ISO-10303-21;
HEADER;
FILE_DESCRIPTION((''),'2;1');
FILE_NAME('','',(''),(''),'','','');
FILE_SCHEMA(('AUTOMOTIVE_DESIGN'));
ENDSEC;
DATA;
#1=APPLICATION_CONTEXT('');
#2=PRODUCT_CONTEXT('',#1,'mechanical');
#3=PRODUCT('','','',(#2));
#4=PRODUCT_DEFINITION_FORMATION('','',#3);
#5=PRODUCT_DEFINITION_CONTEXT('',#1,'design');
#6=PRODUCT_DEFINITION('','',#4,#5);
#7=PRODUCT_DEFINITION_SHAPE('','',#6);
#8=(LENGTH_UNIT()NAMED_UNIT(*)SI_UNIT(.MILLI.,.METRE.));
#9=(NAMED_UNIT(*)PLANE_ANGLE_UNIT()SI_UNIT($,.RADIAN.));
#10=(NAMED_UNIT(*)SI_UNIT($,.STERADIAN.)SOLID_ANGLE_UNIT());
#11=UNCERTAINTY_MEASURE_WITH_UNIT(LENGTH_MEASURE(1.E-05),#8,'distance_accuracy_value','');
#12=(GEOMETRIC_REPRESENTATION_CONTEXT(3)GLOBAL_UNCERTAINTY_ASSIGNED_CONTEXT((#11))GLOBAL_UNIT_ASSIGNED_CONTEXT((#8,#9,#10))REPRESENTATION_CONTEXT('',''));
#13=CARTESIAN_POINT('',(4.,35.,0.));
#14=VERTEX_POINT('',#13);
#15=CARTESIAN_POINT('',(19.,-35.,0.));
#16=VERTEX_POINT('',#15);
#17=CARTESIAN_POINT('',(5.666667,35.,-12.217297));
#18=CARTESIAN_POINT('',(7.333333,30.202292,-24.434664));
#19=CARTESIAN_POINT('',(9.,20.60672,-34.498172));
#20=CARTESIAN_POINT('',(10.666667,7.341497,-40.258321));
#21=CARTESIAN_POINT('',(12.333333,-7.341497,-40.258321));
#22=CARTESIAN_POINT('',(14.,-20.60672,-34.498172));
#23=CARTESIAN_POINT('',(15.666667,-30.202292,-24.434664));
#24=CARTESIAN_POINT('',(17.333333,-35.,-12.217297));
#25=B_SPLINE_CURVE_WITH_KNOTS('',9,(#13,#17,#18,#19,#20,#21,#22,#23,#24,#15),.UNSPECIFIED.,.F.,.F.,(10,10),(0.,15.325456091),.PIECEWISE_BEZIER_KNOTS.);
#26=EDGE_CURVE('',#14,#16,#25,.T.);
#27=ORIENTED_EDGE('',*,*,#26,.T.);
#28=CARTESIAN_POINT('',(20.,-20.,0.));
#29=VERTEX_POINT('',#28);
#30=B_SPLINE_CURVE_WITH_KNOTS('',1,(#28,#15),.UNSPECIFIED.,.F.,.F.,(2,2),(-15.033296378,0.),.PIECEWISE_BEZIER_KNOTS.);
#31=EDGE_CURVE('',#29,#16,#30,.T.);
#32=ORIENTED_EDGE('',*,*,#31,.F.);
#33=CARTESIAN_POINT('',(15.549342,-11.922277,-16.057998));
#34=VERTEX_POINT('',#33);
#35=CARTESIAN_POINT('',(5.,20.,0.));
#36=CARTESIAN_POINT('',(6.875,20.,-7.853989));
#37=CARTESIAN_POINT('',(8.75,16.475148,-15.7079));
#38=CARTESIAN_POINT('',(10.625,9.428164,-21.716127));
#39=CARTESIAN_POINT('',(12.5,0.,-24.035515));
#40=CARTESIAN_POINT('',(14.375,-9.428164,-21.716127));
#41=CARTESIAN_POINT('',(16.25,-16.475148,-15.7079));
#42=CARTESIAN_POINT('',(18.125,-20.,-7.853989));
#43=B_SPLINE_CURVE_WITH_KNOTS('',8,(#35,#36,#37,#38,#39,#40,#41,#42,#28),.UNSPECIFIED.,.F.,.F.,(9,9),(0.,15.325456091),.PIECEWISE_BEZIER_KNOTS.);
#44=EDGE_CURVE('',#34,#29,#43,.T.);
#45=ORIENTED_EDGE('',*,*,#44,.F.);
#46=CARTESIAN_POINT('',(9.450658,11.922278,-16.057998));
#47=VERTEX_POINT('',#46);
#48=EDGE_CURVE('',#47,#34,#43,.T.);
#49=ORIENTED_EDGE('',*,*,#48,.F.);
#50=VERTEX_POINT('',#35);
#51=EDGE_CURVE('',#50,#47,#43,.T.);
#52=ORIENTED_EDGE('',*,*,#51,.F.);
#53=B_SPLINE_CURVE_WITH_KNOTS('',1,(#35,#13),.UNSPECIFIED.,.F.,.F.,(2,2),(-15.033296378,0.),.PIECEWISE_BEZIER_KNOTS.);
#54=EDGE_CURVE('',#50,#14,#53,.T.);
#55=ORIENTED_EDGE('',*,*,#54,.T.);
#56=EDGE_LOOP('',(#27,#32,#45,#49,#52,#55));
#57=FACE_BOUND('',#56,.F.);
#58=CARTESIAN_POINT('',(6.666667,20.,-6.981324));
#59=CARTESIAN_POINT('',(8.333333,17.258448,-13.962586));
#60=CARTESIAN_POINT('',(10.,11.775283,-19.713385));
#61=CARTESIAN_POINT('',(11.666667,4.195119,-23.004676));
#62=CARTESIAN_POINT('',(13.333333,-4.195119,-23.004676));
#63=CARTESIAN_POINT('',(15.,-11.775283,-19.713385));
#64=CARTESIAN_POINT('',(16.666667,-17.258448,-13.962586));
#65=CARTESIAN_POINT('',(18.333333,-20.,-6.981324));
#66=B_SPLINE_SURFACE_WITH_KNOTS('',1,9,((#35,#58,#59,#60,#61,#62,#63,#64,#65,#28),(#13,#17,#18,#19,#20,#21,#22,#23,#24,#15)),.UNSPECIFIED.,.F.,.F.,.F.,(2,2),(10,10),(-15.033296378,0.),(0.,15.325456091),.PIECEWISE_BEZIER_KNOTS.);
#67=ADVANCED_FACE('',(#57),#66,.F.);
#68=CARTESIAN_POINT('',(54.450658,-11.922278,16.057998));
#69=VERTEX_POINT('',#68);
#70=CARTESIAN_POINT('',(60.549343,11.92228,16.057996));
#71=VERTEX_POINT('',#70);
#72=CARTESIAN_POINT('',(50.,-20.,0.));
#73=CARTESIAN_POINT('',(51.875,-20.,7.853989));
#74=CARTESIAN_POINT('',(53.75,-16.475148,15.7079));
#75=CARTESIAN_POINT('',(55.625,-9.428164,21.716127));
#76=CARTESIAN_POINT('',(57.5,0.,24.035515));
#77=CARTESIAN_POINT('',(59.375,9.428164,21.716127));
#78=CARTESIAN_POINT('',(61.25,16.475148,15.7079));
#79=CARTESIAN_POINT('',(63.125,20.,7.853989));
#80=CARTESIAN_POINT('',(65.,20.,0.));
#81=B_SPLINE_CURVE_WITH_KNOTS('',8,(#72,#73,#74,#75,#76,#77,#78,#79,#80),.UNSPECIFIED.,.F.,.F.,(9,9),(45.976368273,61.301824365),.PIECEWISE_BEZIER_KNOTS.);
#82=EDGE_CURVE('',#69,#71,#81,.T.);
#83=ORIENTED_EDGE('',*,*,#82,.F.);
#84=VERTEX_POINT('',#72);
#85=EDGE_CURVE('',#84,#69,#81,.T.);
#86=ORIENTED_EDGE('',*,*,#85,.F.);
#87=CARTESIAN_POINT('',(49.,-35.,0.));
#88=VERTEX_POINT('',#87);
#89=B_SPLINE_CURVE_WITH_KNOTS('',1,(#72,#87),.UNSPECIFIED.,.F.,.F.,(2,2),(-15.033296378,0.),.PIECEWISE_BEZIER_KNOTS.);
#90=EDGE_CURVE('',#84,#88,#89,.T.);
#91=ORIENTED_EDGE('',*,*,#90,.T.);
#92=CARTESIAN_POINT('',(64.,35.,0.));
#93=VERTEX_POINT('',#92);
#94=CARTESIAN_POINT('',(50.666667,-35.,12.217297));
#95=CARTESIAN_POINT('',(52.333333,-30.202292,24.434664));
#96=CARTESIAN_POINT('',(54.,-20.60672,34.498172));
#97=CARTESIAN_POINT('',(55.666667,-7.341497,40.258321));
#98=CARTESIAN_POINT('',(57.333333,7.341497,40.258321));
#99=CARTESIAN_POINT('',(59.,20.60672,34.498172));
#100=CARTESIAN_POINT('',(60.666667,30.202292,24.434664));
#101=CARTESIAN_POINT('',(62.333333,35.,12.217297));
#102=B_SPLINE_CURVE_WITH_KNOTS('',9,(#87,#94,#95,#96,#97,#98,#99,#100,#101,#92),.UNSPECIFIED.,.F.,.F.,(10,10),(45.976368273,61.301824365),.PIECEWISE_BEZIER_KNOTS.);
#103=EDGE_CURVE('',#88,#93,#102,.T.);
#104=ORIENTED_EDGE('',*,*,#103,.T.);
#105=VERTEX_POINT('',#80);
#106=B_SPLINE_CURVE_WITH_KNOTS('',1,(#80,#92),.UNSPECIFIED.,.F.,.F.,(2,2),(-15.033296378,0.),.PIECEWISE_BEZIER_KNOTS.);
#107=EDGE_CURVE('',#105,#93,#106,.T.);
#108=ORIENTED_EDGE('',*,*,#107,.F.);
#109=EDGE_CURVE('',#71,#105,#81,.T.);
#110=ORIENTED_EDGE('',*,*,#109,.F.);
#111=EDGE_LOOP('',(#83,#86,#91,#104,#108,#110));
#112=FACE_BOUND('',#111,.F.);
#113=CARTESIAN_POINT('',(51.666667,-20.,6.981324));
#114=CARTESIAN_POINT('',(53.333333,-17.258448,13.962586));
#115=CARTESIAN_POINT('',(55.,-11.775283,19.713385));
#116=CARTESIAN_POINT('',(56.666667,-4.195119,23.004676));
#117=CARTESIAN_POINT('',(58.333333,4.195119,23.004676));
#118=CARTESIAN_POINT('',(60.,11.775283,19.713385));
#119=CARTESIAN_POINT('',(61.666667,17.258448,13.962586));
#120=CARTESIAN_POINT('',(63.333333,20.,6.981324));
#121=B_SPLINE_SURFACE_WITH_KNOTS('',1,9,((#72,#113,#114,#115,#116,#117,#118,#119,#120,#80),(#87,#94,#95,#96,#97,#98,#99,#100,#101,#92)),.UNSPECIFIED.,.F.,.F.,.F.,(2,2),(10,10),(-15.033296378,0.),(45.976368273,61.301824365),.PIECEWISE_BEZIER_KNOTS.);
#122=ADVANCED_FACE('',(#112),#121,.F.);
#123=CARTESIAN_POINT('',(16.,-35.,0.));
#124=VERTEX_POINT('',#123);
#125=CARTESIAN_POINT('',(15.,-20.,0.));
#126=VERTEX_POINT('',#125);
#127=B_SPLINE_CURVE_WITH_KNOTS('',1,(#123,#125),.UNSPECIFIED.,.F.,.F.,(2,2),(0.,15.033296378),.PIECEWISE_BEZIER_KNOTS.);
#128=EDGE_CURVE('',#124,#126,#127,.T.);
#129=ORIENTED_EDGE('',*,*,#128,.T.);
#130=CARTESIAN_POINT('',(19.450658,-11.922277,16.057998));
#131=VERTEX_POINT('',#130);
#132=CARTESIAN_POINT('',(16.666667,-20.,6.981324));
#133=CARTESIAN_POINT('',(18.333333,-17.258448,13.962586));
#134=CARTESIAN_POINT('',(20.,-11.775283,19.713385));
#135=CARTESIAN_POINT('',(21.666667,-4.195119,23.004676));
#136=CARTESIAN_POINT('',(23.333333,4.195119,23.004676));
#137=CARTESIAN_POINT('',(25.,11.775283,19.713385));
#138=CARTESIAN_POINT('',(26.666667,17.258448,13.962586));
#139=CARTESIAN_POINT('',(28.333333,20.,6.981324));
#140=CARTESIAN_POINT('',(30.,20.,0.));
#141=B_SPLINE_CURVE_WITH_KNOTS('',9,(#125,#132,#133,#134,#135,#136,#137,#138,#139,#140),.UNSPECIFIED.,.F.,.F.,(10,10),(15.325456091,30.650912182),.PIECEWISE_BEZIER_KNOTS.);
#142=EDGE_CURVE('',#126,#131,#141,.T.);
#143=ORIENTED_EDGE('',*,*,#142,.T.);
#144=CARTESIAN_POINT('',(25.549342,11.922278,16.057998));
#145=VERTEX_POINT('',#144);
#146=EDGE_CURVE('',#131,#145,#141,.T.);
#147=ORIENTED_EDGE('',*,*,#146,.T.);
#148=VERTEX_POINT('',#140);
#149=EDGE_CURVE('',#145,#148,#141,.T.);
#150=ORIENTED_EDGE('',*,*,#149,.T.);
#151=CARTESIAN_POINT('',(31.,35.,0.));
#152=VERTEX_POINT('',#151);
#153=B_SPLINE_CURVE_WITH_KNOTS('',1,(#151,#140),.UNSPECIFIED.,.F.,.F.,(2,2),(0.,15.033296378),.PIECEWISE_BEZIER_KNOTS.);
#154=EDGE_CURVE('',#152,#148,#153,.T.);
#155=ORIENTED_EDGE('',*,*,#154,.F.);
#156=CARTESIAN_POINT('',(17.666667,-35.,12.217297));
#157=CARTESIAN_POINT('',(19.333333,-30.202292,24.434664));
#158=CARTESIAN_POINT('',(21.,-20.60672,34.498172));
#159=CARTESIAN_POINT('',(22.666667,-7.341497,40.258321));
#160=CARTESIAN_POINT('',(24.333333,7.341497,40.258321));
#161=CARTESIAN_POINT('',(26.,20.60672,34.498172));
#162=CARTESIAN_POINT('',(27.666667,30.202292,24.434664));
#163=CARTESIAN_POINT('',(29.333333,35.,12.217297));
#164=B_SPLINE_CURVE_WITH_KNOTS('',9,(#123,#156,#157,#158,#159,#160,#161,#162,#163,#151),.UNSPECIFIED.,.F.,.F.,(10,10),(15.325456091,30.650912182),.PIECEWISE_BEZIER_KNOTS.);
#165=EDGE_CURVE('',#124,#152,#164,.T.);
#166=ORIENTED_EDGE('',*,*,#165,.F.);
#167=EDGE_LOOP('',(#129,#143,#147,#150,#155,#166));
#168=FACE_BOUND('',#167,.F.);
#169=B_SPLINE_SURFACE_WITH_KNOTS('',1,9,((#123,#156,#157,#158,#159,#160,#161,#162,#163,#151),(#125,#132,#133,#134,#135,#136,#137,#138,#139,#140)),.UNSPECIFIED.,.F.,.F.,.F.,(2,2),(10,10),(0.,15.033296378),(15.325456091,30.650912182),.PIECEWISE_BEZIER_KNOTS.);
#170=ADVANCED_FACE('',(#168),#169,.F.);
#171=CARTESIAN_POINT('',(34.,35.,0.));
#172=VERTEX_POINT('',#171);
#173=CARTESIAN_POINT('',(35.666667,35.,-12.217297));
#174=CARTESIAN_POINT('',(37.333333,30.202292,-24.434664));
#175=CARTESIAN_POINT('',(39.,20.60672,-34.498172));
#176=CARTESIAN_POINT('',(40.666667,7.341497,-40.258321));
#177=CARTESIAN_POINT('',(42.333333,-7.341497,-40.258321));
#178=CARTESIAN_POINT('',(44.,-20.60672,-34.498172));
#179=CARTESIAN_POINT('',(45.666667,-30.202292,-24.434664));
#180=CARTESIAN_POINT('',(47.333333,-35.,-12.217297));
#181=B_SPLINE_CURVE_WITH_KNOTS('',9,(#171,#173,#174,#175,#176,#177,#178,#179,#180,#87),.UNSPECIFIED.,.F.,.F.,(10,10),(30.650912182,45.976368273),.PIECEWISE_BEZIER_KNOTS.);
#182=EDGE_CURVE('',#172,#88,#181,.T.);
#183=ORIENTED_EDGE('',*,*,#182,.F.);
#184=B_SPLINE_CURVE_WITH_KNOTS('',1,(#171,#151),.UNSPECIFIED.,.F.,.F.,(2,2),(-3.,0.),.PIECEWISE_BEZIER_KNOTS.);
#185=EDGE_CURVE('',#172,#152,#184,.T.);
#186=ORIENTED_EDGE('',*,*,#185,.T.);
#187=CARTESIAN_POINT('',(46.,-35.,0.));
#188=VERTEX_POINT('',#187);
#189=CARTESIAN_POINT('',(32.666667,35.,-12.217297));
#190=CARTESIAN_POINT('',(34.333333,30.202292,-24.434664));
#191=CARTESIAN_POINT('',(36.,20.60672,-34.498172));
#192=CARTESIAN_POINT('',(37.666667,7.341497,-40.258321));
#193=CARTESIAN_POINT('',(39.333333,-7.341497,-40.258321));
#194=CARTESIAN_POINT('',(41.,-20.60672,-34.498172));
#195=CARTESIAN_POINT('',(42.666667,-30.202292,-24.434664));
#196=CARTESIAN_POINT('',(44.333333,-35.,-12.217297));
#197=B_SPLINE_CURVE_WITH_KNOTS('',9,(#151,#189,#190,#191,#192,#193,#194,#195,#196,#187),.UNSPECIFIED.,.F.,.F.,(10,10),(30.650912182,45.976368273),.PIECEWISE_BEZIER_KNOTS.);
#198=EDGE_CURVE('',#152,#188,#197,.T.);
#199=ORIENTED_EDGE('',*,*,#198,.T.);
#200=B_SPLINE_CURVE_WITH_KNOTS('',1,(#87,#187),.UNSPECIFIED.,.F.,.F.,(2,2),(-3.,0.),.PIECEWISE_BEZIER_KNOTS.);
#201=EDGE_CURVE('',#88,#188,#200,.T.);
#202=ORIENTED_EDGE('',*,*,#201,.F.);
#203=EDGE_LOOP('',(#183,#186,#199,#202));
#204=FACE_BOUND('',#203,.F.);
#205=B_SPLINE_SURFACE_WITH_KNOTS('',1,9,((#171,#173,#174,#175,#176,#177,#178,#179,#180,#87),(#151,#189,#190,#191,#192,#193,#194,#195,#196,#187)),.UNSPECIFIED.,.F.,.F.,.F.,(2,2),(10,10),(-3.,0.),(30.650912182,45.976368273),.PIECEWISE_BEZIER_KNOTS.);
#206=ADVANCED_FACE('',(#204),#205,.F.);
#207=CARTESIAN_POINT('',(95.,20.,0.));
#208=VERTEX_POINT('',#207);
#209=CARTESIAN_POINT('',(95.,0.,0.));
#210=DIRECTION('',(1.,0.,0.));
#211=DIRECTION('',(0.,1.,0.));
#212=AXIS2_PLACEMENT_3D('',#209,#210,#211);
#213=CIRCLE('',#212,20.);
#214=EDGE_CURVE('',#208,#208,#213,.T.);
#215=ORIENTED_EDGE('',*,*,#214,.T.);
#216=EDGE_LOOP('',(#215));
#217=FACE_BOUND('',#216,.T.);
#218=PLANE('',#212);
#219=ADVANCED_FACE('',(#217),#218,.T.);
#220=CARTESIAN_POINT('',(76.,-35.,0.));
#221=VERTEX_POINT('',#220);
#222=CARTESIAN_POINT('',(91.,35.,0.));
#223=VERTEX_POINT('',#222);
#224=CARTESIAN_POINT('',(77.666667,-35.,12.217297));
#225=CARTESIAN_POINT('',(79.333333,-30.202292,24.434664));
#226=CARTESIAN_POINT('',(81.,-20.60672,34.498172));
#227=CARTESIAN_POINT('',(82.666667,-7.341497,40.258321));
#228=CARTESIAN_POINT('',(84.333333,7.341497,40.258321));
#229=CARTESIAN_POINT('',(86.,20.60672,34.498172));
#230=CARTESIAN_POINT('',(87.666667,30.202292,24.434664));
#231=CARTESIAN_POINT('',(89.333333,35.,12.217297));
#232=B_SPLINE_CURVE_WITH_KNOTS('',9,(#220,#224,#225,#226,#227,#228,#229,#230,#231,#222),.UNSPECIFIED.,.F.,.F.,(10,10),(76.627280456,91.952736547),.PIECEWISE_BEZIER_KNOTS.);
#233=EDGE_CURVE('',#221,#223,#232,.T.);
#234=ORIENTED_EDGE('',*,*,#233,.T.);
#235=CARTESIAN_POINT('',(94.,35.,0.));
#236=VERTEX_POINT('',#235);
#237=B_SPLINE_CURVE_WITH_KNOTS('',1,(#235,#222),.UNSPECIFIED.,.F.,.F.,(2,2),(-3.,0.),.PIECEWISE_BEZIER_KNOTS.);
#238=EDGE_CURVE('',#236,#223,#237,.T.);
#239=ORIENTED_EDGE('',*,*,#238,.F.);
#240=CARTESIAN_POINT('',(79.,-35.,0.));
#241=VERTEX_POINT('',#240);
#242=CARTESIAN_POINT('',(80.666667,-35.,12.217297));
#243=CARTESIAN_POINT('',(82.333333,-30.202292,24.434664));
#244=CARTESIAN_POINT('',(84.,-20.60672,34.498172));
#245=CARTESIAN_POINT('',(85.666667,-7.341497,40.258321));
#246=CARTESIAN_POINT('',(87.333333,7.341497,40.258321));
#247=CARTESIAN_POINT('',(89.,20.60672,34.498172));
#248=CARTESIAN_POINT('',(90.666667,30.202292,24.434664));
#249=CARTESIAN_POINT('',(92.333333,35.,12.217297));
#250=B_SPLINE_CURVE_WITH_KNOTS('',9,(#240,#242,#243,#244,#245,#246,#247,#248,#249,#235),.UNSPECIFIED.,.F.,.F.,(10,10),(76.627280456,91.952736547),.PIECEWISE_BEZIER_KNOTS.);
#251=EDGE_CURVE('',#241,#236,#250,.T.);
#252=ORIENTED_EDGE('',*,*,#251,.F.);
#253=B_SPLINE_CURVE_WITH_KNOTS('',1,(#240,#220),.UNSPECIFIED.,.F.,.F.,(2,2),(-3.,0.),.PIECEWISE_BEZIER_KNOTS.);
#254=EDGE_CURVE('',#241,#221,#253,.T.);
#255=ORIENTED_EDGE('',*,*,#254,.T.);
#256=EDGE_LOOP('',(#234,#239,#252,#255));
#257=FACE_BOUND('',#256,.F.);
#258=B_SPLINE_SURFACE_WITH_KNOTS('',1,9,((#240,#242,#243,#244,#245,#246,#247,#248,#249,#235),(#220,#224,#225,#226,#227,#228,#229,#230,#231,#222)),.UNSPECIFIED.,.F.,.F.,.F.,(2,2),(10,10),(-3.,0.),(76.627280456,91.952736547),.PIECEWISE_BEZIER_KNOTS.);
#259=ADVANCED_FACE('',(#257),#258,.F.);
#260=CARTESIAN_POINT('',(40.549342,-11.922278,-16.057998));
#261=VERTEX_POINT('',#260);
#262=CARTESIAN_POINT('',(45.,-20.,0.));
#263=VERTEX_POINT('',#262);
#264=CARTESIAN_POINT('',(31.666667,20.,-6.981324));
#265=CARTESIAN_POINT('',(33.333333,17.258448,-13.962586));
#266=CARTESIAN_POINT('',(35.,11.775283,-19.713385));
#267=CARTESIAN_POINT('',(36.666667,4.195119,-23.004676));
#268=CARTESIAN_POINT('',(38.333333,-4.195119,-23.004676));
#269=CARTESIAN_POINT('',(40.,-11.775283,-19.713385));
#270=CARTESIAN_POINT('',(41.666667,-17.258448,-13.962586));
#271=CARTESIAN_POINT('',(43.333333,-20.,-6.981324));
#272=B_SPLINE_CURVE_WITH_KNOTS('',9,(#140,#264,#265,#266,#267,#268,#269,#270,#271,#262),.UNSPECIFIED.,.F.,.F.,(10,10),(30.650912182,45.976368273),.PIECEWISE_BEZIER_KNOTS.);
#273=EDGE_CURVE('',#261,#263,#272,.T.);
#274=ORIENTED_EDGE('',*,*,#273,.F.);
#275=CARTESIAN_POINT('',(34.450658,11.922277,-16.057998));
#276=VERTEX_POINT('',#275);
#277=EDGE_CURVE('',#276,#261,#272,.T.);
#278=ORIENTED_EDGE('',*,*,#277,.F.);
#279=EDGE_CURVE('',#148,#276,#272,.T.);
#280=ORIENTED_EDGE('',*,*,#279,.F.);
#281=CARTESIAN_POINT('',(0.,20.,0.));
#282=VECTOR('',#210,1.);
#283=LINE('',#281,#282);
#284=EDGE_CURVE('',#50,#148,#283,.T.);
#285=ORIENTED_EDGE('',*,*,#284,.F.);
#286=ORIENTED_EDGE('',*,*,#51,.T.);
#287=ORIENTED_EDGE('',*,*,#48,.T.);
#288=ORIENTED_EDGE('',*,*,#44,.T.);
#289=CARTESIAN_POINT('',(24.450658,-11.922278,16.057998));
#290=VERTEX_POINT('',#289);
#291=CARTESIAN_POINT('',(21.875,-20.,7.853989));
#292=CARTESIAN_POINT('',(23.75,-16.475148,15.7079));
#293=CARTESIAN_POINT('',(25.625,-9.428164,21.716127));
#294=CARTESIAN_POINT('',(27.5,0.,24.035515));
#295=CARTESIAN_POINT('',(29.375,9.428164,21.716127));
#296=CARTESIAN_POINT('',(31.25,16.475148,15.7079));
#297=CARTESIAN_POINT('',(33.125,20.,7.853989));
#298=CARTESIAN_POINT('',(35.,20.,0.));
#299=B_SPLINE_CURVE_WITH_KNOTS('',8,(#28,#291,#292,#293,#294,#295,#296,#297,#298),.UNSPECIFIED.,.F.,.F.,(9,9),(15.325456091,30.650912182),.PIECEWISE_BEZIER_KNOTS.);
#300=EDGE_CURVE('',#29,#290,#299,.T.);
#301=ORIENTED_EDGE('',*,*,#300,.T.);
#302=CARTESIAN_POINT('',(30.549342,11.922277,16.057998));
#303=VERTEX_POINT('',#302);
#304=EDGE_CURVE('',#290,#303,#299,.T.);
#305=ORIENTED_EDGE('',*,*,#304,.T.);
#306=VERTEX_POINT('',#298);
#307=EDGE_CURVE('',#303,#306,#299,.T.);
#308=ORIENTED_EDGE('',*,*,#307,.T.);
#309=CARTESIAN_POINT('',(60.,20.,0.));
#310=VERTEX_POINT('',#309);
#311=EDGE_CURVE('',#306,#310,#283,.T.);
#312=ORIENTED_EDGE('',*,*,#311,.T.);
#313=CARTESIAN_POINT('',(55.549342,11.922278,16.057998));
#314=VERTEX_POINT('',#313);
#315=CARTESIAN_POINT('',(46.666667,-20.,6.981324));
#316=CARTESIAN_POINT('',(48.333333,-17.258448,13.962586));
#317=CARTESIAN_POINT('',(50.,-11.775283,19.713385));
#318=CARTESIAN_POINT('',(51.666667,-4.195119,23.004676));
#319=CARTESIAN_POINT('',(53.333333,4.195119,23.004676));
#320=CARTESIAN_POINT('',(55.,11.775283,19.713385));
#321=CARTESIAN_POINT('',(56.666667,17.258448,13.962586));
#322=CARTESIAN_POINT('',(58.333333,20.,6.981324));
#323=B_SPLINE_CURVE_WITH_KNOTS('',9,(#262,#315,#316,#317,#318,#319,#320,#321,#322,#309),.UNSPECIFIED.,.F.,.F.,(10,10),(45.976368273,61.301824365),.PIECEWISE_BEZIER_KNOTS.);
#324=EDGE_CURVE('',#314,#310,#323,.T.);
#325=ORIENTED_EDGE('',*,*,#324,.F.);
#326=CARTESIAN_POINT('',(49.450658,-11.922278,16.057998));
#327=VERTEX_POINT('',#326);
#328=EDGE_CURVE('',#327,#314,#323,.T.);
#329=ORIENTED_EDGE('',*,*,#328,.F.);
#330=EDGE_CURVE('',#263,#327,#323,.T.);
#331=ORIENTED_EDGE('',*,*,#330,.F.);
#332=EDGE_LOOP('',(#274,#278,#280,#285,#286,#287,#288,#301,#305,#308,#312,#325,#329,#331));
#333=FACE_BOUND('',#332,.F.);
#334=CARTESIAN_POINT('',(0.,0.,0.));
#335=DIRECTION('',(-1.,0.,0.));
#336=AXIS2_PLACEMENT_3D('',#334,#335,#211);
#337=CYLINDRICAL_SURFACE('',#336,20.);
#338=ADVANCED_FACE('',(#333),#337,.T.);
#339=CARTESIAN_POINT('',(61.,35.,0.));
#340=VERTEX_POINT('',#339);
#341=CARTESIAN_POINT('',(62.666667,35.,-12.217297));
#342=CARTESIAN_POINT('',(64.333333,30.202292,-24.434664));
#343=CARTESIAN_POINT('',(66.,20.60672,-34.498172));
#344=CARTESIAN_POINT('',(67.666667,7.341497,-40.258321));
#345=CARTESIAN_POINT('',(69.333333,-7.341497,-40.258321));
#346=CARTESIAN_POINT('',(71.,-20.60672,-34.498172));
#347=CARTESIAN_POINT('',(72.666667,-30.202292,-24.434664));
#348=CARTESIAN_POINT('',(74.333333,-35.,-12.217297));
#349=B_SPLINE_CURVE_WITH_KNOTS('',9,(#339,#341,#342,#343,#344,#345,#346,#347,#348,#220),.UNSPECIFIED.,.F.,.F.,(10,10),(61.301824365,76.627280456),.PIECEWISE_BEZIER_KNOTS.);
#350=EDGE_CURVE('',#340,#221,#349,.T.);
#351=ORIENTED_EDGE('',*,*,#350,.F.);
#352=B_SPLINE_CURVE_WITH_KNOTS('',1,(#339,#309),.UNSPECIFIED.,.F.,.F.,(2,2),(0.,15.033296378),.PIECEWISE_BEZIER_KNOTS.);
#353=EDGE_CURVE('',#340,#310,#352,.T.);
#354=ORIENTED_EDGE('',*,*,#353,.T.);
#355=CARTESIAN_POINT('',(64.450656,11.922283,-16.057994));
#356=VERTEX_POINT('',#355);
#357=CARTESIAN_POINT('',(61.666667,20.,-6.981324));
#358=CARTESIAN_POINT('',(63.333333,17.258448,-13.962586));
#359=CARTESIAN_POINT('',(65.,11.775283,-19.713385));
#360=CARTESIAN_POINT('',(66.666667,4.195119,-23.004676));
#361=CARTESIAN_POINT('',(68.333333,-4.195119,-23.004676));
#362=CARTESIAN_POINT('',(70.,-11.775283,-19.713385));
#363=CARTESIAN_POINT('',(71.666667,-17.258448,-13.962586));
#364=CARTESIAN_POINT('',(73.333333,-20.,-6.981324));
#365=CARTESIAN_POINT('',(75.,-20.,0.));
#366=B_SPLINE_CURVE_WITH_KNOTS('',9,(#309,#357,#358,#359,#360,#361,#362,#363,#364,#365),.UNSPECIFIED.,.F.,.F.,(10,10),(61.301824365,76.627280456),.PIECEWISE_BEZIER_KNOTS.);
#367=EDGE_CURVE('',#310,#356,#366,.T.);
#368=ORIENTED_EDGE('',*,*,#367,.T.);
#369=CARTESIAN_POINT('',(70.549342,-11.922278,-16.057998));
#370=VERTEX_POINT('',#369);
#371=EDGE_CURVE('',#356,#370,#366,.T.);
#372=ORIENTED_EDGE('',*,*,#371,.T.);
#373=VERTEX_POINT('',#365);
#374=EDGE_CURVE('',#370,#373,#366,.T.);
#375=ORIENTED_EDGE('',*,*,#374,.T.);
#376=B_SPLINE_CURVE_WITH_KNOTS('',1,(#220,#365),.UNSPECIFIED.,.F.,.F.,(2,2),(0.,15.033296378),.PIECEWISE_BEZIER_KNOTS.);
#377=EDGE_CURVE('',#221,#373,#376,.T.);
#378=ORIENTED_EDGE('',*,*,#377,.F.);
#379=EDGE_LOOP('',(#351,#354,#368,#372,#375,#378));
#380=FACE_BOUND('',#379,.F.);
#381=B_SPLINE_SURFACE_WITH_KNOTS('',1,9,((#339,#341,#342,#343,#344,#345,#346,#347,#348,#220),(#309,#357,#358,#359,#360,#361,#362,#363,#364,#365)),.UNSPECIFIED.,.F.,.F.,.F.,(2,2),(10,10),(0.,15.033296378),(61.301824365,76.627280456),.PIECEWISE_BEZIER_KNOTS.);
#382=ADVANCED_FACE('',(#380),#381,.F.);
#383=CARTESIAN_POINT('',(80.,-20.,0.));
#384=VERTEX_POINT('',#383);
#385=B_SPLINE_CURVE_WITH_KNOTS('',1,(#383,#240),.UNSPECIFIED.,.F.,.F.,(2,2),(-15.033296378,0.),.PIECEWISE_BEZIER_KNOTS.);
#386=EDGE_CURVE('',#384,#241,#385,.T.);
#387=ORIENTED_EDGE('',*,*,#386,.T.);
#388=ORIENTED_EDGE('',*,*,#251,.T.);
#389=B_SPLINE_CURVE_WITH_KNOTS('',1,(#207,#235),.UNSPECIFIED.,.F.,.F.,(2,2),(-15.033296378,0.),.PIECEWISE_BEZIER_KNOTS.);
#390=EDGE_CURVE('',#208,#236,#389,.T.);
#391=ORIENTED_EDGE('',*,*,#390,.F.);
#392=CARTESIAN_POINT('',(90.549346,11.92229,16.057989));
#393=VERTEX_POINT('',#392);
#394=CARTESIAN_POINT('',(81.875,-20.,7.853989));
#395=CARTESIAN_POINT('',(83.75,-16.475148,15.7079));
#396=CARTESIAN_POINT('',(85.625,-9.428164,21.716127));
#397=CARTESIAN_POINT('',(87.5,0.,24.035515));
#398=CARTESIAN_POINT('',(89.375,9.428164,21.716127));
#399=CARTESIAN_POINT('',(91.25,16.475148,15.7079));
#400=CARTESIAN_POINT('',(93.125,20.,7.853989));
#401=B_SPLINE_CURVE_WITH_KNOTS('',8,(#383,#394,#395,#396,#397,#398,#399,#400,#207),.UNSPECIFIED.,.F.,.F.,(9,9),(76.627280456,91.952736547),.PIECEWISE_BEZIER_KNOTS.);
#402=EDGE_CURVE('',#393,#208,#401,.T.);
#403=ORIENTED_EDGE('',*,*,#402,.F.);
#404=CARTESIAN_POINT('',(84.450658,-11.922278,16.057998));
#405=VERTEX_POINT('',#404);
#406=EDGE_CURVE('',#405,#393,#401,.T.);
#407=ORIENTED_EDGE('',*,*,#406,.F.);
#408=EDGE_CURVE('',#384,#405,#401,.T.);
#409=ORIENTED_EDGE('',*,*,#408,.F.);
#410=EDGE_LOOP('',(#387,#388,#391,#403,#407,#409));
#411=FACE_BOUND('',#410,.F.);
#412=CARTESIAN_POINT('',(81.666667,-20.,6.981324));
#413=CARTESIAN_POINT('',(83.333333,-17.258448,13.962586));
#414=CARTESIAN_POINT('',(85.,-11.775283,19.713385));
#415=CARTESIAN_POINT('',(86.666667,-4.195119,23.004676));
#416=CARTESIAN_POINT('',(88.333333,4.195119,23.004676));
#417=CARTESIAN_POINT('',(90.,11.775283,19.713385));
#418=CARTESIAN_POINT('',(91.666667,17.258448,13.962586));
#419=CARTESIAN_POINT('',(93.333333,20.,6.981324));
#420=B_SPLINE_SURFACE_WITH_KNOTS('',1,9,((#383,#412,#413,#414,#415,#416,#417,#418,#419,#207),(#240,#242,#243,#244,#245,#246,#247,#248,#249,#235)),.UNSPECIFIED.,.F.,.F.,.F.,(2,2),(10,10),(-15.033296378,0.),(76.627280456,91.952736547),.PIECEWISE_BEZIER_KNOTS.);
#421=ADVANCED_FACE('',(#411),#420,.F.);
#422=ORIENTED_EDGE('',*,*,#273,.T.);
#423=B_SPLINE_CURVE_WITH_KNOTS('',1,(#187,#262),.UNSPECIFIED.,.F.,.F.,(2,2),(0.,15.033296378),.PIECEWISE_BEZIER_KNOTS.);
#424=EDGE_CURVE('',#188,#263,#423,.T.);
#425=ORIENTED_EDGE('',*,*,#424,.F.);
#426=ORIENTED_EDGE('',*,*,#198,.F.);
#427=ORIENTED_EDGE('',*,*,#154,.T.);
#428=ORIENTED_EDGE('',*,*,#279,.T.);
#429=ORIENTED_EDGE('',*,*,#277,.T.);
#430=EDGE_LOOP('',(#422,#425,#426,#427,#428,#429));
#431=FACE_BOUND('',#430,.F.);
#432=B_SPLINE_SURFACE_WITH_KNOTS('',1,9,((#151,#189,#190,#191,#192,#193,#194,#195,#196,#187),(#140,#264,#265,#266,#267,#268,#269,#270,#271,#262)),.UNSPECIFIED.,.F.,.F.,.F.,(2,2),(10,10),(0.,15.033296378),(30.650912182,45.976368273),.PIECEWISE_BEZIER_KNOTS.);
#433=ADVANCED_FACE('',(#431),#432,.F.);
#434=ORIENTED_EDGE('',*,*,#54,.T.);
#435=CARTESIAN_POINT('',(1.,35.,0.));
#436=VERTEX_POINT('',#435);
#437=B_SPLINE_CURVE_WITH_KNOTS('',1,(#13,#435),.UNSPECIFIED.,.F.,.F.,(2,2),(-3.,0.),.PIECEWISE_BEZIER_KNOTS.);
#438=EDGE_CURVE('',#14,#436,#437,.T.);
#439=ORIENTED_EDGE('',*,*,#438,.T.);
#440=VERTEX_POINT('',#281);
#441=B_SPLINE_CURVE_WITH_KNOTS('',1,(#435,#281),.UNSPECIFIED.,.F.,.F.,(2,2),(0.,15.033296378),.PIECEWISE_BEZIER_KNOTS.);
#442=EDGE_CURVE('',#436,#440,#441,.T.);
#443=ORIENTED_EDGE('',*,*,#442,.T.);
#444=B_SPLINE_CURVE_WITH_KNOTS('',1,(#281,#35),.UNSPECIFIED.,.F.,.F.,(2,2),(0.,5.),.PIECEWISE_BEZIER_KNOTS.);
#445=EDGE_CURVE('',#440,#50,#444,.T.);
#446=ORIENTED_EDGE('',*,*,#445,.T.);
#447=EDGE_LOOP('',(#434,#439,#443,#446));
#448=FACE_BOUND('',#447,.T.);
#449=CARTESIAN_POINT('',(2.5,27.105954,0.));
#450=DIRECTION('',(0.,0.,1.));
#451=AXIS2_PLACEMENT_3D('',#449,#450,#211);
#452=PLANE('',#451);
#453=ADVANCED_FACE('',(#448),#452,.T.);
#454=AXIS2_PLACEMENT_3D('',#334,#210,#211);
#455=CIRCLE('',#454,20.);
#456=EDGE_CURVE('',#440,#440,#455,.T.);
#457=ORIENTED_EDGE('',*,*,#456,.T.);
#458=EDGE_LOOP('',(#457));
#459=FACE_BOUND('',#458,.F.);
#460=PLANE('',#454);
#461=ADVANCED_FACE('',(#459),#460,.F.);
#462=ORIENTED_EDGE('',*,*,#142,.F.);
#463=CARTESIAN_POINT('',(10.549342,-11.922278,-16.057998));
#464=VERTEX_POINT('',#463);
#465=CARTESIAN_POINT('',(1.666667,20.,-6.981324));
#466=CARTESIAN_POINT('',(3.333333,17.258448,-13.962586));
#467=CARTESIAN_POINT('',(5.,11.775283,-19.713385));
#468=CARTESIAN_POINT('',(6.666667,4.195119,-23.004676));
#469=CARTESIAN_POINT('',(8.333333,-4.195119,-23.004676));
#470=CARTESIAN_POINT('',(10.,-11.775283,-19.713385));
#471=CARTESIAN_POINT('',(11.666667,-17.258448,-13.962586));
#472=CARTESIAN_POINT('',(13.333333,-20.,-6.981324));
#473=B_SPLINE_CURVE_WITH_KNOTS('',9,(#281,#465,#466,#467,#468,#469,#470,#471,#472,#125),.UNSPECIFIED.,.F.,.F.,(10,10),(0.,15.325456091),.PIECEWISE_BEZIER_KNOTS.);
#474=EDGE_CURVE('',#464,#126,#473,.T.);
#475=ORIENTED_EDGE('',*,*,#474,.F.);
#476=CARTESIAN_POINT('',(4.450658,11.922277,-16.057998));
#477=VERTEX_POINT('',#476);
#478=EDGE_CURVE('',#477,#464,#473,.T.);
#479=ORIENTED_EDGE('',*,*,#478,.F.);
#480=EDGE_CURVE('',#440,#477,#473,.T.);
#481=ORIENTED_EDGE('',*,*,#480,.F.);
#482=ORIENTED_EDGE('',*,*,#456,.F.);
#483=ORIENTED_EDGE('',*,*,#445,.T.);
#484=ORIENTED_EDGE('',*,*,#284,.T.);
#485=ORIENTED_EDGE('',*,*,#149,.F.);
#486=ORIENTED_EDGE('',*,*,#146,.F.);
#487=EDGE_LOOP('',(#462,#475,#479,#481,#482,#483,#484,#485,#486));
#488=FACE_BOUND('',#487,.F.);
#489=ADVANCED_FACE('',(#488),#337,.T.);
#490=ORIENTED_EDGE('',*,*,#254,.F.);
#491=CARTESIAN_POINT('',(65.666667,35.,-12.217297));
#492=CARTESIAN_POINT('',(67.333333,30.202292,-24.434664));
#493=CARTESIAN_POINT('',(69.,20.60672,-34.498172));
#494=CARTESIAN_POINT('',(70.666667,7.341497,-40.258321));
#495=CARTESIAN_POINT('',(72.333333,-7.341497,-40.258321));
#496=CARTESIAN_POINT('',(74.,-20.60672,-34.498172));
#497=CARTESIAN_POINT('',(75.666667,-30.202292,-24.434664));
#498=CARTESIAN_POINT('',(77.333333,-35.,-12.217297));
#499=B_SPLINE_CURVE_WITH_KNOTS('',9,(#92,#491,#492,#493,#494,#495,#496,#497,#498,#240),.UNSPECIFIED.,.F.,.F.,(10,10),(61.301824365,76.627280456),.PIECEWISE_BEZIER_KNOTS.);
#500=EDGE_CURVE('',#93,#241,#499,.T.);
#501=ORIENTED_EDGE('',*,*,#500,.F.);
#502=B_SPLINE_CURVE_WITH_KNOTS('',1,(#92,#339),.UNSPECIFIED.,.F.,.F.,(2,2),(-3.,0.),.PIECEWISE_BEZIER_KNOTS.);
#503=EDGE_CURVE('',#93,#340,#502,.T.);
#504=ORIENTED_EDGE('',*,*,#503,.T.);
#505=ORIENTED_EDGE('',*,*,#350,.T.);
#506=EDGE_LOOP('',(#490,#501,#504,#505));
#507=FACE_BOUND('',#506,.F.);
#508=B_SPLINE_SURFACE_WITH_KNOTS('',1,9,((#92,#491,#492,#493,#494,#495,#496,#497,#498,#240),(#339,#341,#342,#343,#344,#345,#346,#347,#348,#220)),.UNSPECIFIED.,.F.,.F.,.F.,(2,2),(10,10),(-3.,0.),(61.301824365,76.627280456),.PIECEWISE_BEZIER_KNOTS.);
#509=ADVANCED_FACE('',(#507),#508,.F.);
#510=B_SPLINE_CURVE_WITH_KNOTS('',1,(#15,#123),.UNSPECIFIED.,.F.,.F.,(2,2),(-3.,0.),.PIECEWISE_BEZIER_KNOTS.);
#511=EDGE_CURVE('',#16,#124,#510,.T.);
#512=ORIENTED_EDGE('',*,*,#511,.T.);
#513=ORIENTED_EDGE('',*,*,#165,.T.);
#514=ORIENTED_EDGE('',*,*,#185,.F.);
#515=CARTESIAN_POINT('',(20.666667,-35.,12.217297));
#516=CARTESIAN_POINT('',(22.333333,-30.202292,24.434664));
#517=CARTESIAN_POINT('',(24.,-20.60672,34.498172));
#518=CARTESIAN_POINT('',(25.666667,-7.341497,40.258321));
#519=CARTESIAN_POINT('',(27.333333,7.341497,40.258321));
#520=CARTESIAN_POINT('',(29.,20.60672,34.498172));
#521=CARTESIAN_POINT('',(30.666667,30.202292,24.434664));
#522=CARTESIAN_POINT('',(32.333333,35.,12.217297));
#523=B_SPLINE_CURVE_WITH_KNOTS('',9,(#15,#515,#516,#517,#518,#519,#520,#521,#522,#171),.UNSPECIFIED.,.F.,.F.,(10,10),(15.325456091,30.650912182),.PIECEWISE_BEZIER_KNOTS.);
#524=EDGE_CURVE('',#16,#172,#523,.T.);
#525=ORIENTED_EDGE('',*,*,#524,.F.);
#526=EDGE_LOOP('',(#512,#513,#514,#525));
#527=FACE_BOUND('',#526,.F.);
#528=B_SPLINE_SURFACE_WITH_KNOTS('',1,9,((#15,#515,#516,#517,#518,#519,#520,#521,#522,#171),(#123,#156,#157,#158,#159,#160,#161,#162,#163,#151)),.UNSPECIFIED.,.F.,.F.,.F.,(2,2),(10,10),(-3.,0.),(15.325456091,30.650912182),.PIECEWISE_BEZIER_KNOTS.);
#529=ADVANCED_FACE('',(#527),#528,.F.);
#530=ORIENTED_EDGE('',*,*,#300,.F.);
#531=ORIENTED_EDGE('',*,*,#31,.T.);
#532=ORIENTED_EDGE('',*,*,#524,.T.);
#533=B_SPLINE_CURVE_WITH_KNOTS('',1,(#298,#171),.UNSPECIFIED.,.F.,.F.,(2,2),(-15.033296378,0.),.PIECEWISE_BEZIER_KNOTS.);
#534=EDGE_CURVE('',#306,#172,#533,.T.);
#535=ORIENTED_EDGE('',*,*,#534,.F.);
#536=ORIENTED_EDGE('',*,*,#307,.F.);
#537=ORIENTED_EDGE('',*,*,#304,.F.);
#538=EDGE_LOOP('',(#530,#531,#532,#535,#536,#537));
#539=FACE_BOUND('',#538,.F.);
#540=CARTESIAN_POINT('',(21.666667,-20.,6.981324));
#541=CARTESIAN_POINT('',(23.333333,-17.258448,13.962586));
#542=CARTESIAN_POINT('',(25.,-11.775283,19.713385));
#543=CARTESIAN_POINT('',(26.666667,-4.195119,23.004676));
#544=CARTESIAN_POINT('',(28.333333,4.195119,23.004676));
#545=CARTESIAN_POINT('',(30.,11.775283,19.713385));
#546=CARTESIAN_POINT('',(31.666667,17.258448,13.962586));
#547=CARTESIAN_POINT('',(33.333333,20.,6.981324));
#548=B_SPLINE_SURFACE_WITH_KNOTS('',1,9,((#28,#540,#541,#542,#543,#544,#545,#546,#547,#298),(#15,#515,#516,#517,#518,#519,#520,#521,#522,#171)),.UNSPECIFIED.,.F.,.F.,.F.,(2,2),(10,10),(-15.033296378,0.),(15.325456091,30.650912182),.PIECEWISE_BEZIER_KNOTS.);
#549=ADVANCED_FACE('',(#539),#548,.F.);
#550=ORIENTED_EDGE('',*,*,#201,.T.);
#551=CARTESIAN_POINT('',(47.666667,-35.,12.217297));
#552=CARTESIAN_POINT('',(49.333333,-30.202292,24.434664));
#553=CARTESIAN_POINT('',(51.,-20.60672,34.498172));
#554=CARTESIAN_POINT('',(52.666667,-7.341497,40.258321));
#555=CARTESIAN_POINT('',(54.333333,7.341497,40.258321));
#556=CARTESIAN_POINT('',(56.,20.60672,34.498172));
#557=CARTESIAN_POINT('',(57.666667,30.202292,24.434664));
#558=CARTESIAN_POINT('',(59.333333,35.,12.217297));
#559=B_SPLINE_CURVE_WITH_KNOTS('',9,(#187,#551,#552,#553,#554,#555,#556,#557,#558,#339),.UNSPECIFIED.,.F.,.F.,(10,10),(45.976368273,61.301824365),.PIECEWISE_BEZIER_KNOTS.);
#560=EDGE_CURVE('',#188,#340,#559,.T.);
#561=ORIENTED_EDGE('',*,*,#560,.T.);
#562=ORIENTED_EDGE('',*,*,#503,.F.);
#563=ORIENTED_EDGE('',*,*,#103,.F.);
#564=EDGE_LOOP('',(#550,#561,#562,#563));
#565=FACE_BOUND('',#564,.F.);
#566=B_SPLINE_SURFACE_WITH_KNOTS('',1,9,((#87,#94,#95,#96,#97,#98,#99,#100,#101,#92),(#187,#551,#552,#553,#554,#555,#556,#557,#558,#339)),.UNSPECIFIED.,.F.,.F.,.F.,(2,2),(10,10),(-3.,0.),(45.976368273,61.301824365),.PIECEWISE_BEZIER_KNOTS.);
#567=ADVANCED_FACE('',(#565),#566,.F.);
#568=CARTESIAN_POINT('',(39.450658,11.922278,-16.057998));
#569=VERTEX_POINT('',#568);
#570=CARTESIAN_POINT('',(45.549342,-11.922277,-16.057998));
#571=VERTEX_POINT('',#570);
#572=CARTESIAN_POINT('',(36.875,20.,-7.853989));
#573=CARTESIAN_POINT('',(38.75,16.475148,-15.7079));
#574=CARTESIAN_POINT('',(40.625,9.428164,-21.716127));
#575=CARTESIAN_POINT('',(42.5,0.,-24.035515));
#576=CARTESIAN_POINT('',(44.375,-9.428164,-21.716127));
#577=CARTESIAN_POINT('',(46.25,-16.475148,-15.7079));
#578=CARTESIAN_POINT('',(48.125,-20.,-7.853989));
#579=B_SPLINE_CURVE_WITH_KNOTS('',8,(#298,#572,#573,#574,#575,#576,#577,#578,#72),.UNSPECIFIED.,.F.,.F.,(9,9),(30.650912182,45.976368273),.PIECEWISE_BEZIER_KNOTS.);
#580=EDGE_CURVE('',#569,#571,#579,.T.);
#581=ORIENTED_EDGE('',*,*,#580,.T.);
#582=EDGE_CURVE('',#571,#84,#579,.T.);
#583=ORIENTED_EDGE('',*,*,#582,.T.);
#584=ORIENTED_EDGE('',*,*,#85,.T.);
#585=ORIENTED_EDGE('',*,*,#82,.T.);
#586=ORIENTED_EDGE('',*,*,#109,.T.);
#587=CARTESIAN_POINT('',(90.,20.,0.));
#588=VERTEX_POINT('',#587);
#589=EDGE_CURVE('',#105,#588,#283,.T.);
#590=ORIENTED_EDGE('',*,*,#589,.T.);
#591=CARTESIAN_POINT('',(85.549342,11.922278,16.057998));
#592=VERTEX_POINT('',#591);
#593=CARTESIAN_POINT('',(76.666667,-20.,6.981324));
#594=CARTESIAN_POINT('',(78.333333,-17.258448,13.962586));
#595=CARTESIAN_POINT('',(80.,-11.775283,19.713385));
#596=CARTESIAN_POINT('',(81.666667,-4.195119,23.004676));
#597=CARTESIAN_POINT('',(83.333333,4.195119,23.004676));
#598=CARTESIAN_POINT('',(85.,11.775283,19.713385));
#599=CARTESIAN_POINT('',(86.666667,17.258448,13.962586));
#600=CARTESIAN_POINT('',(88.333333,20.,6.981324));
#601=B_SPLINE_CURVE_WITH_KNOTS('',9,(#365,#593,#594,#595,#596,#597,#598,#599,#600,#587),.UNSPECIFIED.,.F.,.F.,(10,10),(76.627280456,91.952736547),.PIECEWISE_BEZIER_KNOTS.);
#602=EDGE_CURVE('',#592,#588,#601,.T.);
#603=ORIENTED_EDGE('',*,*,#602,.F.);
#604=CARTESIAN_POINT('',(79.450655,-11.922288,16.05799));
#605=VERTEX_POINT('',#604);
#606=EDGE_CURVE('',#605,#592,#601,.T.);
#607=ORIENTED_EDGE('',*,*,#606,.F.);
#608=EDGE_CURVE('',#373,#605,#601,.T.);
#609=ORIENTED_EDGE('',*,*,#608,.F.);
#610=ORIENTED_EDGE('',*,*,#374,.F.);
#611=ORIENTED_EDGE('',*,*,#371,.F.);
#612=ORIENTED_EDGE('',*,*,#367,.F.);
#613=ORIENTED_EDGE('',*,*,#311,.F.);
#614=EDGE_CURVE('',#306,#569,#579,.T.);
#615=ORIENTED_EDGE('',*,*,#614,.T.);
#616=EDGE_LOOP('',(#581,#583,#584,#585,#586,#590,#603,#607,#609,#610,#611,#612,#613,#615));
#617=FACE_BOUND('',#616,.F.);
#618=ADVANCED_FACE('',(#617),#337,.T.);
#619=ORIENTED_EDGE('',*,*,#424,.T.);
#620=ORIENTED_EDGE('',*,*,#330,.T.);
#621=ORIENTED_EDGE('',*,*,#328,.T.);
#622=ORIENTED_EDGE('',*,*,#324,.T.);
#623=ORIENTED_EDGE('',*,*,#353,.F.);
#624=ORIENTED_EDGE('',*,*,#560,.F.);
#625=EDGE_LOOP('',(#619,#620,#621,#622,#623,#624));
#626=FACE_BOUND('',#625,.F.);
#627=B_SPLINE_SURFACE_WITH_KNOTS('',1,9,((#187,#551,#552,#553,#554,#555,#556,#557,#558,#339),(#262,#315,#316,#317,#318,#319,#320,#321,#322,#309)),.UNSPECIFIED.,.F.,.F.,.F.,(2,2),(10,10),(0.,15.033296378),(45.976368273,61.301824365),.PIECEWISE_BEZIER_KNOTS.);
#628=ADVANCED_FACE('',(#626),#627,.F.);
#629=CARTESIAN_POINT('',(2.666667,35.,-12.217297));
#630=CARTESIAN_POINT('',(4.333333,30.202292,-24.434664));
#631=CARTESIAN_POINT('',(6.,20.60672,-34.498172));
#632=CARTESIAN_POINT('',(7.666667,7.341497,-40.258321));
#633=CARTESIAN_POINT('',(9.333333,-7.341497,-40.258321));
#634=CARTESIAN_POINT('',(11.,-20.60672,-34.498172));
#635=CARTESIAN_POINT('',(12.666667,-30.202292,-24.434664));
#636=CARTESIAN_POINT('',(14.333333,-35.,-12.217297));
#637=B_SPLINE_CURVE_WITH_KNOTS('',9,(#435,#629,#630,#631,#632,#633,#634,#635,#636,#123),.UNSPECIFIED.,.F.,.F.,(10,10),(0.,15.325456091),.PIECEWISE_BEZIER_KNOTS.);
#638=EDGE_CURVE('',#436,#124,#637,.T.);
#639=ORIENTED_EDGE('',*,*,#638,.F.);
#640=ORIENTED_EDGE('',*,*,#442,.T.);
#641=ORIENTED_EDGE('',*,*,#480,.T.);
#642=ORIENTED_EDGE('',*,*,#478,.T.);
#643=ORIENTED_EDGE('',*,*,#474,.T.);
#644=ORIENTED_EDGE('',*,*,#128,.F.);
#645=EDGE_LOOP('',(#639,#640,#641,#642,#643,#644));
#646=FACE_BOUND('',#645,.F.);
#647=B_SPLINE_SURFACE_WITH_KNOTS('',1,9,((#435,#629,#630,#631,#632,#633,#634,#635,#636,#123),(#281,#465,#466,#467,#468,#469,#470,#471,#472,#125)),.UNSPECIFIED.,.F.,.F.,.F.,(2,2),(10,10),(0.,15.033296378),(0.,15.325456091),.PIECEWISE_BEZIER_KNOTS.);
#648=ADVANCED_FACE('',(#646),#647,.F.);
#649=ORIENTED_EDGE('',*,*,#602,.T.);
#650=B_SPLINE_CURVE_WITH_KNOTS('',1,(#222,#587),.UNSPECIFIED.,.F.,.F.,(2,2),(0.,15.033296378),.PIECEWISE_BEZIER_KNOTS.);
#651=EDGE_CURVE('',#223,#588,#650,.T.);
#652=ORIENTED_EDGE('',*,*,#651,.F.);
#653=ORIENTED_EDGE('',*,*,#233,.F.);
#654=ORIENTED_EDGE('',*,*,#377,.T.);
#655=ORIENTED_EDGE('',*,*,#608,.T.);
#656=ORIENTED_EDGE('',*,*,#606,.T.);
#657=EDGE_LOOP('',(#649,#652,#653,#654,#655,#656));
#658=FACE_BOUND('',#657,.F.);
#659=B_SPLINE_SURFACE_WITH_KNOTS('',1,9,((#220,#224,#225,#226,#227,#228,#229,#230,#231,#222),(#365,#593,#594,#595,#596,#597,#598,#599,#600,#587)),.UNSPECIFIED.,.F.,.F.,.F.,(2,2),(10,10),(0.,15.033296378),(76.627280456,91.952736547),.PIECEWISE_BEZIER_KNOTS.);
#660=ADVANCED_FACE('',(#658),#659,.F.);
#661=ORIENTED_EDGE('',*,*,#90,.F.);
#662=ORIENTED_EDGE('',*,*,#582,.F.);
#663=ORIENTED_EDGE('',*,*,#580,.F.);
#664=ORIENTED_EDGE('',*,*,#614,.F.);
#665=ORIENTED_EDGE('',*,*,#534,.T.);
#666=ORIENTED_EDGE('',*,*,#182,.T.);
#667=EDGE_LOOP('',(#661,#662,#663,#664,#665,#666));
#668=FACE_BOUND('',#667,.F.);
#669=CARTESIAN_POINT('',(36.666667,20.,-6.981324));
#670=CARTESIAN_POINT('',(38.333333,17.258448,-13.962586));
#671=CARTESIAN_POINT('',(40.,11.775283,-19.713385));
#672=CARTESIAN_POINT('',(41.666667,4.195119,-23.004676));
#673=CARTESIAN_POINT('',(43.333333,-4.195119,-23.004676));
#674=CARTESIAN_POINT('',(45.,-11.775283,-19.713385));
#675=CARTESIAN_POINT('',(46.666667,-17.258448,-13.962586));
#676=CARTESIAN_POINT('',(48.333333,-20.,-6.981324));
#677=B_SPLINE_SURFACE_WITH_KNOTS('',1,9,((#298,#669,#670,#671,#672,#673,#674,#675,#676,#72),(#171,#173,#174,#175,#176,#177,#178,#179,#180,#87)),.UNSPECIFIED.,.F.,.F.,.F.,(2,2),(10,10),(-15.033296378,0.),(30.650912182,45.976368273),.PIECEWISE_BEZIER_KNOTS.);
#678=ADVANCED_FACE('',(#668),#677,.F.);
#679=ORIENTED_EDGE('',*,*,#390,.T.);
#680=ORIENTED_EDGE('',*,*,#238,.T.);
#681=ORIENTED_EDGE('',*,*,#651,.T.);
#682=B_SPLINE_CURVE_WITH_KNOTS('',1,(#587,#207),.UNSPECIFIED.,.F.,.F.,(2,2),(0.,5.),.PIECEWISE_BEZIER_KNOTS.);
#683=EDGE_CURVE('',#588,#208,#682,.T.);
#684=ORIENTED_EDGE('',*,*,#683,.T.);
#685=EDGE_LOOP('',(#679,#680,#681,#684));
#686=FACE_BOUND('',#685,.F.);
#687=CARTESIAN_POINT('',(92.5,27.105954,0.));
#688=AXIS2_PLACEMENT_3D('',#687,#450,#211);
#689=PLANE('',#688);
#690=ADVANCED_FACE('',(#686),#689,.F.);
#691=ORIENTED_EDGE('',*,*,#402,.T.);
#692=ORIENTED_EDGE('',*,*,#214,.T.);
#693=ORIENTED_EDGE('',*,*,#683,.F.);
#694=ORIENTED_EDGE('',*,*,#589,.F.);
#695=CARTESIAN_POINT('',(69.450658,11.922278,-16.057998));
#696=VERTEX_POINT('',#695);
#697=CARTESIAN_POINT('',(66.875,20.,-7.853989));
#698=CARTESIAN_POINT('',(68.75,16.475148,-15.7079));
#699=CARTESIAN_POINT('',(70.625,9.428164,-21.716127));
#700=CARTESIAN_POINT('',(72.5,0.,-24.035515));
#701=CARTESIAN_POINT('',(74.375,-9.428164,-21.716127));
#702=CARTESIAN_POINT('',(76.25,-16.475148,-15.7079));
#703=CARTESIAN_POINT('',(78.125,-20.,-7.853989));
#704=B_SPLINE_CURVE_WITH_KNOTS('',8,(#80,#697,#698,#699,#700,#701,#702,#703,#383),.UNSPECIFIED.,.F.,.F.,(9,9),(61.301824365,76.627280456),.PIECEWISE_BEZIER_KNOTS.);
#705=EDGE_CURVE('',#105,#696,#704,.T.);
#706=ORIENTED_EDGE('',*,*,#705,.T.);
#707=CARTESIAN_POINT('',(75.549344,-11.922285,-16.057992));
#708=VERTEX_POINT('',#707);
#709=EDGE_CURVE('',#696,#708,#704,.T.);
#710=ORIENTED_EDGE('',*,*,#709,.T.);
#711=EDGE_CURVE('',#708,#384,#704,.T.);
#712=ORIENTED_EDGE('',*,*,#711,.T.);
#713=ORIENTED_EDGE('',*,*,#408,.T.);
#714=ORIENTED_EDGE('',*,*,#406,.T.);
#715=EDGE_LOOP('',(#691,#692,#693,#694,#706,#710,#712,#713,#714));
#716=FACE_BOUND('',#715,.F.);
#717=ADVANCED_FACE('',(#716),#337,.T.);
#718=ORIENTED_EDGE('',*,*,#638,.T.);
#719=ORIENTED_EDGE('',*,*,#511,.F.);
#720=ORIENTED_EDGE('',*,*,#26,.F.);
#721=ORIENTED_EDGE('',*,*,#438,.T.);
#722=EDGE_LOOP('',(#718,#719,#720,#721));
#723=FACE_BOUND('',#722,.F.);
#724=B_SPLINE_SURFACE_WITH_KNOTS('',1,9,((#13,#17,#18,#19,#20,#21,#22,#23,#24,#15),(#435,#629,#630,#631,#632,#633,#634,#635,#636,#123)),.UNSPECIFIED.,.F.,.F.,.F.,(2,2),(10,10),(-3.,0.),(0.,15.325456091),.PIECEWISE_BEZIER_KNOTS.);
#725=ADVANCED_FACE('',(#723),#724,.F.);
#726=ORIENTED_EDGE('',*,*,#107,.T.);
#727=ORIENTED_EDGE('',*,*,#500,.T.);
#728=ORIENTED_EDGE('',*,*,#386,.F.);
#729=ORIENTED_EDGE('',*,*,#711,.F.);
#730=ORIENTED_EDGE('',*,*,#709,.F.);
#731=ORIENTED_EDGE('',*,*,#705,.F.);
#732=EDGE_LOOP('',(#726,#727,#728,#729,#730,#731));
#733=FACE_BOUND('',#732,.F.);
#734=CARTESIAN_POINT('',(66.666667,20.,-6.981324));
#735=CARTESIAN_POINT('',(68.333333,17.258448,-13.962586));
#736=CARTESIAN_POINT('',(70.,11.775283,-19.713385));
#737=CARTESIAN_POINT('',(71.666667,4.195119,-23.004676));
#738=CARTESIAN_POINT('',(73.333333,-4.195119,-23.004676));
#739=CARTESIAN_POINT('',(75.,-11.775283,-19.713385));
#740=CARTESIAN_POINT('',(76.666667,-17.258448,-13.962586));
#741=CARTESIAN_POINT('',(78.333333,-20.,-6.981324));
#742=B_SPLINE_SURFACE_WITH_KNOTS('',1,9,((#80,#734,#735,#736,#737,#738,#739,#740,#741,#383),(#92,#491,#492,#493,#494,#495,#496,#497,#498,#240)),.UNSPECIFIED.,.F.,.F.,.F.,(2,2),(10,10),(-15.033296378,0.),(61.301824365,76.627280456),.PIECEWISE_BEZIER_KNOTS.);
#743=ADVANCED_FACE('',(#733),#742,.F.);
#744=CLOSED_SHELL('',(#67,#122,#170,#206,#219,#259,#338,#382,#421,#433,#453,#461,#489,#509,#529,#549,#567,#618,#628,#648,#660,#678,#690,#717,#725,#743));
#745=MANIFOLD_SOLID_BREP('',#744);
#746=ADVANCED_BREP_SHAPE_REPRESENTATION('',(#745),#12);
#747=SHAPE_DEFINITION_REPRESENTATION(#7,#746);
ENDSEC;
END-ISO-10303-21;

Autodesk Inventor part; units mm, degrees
ref_plane "YZ Plane" through (0, 0, 0) normal (1, 0, 0) x (0, 1, 0)
ref_plane "XZ Plane" through (0, 0, 0) normal (0, 1, 0) x (-1, 0, 0)
ref_plane "XY Plane" through (0, 0, 0) normal (0, 0, 1) x (1, 0, 0)
sketch "Sketch1" plane through (0, 0, 0) normal (0, 0, 1) x (1, 0, 0)
  line L0 (0, 20) -> (5, 20)
  line L1 (4, 35) -> (5, 20)
  line L2 (1, 35) -> (0, 20)
  line L3 (1, 35) -> (4, 35)
  point P0 (0, 0)
  dimension "d1" = 5
coil "Coil1" sketch "Sketch1" operation add axis through (-10, 0, 0) along (1, 0, 0) pitch 30 turns 3 hand left
sketch "Sketch2" plane through (0, 0, 0) normal (1, 0, 0) x (0, 1, 0)
  circle A0 centre (0, 0) radius 20
  point P0 (20, 0)
extrude "Extrusion1" add sketch "Sketch2" along normal blind 95
properties part number "rollers"
